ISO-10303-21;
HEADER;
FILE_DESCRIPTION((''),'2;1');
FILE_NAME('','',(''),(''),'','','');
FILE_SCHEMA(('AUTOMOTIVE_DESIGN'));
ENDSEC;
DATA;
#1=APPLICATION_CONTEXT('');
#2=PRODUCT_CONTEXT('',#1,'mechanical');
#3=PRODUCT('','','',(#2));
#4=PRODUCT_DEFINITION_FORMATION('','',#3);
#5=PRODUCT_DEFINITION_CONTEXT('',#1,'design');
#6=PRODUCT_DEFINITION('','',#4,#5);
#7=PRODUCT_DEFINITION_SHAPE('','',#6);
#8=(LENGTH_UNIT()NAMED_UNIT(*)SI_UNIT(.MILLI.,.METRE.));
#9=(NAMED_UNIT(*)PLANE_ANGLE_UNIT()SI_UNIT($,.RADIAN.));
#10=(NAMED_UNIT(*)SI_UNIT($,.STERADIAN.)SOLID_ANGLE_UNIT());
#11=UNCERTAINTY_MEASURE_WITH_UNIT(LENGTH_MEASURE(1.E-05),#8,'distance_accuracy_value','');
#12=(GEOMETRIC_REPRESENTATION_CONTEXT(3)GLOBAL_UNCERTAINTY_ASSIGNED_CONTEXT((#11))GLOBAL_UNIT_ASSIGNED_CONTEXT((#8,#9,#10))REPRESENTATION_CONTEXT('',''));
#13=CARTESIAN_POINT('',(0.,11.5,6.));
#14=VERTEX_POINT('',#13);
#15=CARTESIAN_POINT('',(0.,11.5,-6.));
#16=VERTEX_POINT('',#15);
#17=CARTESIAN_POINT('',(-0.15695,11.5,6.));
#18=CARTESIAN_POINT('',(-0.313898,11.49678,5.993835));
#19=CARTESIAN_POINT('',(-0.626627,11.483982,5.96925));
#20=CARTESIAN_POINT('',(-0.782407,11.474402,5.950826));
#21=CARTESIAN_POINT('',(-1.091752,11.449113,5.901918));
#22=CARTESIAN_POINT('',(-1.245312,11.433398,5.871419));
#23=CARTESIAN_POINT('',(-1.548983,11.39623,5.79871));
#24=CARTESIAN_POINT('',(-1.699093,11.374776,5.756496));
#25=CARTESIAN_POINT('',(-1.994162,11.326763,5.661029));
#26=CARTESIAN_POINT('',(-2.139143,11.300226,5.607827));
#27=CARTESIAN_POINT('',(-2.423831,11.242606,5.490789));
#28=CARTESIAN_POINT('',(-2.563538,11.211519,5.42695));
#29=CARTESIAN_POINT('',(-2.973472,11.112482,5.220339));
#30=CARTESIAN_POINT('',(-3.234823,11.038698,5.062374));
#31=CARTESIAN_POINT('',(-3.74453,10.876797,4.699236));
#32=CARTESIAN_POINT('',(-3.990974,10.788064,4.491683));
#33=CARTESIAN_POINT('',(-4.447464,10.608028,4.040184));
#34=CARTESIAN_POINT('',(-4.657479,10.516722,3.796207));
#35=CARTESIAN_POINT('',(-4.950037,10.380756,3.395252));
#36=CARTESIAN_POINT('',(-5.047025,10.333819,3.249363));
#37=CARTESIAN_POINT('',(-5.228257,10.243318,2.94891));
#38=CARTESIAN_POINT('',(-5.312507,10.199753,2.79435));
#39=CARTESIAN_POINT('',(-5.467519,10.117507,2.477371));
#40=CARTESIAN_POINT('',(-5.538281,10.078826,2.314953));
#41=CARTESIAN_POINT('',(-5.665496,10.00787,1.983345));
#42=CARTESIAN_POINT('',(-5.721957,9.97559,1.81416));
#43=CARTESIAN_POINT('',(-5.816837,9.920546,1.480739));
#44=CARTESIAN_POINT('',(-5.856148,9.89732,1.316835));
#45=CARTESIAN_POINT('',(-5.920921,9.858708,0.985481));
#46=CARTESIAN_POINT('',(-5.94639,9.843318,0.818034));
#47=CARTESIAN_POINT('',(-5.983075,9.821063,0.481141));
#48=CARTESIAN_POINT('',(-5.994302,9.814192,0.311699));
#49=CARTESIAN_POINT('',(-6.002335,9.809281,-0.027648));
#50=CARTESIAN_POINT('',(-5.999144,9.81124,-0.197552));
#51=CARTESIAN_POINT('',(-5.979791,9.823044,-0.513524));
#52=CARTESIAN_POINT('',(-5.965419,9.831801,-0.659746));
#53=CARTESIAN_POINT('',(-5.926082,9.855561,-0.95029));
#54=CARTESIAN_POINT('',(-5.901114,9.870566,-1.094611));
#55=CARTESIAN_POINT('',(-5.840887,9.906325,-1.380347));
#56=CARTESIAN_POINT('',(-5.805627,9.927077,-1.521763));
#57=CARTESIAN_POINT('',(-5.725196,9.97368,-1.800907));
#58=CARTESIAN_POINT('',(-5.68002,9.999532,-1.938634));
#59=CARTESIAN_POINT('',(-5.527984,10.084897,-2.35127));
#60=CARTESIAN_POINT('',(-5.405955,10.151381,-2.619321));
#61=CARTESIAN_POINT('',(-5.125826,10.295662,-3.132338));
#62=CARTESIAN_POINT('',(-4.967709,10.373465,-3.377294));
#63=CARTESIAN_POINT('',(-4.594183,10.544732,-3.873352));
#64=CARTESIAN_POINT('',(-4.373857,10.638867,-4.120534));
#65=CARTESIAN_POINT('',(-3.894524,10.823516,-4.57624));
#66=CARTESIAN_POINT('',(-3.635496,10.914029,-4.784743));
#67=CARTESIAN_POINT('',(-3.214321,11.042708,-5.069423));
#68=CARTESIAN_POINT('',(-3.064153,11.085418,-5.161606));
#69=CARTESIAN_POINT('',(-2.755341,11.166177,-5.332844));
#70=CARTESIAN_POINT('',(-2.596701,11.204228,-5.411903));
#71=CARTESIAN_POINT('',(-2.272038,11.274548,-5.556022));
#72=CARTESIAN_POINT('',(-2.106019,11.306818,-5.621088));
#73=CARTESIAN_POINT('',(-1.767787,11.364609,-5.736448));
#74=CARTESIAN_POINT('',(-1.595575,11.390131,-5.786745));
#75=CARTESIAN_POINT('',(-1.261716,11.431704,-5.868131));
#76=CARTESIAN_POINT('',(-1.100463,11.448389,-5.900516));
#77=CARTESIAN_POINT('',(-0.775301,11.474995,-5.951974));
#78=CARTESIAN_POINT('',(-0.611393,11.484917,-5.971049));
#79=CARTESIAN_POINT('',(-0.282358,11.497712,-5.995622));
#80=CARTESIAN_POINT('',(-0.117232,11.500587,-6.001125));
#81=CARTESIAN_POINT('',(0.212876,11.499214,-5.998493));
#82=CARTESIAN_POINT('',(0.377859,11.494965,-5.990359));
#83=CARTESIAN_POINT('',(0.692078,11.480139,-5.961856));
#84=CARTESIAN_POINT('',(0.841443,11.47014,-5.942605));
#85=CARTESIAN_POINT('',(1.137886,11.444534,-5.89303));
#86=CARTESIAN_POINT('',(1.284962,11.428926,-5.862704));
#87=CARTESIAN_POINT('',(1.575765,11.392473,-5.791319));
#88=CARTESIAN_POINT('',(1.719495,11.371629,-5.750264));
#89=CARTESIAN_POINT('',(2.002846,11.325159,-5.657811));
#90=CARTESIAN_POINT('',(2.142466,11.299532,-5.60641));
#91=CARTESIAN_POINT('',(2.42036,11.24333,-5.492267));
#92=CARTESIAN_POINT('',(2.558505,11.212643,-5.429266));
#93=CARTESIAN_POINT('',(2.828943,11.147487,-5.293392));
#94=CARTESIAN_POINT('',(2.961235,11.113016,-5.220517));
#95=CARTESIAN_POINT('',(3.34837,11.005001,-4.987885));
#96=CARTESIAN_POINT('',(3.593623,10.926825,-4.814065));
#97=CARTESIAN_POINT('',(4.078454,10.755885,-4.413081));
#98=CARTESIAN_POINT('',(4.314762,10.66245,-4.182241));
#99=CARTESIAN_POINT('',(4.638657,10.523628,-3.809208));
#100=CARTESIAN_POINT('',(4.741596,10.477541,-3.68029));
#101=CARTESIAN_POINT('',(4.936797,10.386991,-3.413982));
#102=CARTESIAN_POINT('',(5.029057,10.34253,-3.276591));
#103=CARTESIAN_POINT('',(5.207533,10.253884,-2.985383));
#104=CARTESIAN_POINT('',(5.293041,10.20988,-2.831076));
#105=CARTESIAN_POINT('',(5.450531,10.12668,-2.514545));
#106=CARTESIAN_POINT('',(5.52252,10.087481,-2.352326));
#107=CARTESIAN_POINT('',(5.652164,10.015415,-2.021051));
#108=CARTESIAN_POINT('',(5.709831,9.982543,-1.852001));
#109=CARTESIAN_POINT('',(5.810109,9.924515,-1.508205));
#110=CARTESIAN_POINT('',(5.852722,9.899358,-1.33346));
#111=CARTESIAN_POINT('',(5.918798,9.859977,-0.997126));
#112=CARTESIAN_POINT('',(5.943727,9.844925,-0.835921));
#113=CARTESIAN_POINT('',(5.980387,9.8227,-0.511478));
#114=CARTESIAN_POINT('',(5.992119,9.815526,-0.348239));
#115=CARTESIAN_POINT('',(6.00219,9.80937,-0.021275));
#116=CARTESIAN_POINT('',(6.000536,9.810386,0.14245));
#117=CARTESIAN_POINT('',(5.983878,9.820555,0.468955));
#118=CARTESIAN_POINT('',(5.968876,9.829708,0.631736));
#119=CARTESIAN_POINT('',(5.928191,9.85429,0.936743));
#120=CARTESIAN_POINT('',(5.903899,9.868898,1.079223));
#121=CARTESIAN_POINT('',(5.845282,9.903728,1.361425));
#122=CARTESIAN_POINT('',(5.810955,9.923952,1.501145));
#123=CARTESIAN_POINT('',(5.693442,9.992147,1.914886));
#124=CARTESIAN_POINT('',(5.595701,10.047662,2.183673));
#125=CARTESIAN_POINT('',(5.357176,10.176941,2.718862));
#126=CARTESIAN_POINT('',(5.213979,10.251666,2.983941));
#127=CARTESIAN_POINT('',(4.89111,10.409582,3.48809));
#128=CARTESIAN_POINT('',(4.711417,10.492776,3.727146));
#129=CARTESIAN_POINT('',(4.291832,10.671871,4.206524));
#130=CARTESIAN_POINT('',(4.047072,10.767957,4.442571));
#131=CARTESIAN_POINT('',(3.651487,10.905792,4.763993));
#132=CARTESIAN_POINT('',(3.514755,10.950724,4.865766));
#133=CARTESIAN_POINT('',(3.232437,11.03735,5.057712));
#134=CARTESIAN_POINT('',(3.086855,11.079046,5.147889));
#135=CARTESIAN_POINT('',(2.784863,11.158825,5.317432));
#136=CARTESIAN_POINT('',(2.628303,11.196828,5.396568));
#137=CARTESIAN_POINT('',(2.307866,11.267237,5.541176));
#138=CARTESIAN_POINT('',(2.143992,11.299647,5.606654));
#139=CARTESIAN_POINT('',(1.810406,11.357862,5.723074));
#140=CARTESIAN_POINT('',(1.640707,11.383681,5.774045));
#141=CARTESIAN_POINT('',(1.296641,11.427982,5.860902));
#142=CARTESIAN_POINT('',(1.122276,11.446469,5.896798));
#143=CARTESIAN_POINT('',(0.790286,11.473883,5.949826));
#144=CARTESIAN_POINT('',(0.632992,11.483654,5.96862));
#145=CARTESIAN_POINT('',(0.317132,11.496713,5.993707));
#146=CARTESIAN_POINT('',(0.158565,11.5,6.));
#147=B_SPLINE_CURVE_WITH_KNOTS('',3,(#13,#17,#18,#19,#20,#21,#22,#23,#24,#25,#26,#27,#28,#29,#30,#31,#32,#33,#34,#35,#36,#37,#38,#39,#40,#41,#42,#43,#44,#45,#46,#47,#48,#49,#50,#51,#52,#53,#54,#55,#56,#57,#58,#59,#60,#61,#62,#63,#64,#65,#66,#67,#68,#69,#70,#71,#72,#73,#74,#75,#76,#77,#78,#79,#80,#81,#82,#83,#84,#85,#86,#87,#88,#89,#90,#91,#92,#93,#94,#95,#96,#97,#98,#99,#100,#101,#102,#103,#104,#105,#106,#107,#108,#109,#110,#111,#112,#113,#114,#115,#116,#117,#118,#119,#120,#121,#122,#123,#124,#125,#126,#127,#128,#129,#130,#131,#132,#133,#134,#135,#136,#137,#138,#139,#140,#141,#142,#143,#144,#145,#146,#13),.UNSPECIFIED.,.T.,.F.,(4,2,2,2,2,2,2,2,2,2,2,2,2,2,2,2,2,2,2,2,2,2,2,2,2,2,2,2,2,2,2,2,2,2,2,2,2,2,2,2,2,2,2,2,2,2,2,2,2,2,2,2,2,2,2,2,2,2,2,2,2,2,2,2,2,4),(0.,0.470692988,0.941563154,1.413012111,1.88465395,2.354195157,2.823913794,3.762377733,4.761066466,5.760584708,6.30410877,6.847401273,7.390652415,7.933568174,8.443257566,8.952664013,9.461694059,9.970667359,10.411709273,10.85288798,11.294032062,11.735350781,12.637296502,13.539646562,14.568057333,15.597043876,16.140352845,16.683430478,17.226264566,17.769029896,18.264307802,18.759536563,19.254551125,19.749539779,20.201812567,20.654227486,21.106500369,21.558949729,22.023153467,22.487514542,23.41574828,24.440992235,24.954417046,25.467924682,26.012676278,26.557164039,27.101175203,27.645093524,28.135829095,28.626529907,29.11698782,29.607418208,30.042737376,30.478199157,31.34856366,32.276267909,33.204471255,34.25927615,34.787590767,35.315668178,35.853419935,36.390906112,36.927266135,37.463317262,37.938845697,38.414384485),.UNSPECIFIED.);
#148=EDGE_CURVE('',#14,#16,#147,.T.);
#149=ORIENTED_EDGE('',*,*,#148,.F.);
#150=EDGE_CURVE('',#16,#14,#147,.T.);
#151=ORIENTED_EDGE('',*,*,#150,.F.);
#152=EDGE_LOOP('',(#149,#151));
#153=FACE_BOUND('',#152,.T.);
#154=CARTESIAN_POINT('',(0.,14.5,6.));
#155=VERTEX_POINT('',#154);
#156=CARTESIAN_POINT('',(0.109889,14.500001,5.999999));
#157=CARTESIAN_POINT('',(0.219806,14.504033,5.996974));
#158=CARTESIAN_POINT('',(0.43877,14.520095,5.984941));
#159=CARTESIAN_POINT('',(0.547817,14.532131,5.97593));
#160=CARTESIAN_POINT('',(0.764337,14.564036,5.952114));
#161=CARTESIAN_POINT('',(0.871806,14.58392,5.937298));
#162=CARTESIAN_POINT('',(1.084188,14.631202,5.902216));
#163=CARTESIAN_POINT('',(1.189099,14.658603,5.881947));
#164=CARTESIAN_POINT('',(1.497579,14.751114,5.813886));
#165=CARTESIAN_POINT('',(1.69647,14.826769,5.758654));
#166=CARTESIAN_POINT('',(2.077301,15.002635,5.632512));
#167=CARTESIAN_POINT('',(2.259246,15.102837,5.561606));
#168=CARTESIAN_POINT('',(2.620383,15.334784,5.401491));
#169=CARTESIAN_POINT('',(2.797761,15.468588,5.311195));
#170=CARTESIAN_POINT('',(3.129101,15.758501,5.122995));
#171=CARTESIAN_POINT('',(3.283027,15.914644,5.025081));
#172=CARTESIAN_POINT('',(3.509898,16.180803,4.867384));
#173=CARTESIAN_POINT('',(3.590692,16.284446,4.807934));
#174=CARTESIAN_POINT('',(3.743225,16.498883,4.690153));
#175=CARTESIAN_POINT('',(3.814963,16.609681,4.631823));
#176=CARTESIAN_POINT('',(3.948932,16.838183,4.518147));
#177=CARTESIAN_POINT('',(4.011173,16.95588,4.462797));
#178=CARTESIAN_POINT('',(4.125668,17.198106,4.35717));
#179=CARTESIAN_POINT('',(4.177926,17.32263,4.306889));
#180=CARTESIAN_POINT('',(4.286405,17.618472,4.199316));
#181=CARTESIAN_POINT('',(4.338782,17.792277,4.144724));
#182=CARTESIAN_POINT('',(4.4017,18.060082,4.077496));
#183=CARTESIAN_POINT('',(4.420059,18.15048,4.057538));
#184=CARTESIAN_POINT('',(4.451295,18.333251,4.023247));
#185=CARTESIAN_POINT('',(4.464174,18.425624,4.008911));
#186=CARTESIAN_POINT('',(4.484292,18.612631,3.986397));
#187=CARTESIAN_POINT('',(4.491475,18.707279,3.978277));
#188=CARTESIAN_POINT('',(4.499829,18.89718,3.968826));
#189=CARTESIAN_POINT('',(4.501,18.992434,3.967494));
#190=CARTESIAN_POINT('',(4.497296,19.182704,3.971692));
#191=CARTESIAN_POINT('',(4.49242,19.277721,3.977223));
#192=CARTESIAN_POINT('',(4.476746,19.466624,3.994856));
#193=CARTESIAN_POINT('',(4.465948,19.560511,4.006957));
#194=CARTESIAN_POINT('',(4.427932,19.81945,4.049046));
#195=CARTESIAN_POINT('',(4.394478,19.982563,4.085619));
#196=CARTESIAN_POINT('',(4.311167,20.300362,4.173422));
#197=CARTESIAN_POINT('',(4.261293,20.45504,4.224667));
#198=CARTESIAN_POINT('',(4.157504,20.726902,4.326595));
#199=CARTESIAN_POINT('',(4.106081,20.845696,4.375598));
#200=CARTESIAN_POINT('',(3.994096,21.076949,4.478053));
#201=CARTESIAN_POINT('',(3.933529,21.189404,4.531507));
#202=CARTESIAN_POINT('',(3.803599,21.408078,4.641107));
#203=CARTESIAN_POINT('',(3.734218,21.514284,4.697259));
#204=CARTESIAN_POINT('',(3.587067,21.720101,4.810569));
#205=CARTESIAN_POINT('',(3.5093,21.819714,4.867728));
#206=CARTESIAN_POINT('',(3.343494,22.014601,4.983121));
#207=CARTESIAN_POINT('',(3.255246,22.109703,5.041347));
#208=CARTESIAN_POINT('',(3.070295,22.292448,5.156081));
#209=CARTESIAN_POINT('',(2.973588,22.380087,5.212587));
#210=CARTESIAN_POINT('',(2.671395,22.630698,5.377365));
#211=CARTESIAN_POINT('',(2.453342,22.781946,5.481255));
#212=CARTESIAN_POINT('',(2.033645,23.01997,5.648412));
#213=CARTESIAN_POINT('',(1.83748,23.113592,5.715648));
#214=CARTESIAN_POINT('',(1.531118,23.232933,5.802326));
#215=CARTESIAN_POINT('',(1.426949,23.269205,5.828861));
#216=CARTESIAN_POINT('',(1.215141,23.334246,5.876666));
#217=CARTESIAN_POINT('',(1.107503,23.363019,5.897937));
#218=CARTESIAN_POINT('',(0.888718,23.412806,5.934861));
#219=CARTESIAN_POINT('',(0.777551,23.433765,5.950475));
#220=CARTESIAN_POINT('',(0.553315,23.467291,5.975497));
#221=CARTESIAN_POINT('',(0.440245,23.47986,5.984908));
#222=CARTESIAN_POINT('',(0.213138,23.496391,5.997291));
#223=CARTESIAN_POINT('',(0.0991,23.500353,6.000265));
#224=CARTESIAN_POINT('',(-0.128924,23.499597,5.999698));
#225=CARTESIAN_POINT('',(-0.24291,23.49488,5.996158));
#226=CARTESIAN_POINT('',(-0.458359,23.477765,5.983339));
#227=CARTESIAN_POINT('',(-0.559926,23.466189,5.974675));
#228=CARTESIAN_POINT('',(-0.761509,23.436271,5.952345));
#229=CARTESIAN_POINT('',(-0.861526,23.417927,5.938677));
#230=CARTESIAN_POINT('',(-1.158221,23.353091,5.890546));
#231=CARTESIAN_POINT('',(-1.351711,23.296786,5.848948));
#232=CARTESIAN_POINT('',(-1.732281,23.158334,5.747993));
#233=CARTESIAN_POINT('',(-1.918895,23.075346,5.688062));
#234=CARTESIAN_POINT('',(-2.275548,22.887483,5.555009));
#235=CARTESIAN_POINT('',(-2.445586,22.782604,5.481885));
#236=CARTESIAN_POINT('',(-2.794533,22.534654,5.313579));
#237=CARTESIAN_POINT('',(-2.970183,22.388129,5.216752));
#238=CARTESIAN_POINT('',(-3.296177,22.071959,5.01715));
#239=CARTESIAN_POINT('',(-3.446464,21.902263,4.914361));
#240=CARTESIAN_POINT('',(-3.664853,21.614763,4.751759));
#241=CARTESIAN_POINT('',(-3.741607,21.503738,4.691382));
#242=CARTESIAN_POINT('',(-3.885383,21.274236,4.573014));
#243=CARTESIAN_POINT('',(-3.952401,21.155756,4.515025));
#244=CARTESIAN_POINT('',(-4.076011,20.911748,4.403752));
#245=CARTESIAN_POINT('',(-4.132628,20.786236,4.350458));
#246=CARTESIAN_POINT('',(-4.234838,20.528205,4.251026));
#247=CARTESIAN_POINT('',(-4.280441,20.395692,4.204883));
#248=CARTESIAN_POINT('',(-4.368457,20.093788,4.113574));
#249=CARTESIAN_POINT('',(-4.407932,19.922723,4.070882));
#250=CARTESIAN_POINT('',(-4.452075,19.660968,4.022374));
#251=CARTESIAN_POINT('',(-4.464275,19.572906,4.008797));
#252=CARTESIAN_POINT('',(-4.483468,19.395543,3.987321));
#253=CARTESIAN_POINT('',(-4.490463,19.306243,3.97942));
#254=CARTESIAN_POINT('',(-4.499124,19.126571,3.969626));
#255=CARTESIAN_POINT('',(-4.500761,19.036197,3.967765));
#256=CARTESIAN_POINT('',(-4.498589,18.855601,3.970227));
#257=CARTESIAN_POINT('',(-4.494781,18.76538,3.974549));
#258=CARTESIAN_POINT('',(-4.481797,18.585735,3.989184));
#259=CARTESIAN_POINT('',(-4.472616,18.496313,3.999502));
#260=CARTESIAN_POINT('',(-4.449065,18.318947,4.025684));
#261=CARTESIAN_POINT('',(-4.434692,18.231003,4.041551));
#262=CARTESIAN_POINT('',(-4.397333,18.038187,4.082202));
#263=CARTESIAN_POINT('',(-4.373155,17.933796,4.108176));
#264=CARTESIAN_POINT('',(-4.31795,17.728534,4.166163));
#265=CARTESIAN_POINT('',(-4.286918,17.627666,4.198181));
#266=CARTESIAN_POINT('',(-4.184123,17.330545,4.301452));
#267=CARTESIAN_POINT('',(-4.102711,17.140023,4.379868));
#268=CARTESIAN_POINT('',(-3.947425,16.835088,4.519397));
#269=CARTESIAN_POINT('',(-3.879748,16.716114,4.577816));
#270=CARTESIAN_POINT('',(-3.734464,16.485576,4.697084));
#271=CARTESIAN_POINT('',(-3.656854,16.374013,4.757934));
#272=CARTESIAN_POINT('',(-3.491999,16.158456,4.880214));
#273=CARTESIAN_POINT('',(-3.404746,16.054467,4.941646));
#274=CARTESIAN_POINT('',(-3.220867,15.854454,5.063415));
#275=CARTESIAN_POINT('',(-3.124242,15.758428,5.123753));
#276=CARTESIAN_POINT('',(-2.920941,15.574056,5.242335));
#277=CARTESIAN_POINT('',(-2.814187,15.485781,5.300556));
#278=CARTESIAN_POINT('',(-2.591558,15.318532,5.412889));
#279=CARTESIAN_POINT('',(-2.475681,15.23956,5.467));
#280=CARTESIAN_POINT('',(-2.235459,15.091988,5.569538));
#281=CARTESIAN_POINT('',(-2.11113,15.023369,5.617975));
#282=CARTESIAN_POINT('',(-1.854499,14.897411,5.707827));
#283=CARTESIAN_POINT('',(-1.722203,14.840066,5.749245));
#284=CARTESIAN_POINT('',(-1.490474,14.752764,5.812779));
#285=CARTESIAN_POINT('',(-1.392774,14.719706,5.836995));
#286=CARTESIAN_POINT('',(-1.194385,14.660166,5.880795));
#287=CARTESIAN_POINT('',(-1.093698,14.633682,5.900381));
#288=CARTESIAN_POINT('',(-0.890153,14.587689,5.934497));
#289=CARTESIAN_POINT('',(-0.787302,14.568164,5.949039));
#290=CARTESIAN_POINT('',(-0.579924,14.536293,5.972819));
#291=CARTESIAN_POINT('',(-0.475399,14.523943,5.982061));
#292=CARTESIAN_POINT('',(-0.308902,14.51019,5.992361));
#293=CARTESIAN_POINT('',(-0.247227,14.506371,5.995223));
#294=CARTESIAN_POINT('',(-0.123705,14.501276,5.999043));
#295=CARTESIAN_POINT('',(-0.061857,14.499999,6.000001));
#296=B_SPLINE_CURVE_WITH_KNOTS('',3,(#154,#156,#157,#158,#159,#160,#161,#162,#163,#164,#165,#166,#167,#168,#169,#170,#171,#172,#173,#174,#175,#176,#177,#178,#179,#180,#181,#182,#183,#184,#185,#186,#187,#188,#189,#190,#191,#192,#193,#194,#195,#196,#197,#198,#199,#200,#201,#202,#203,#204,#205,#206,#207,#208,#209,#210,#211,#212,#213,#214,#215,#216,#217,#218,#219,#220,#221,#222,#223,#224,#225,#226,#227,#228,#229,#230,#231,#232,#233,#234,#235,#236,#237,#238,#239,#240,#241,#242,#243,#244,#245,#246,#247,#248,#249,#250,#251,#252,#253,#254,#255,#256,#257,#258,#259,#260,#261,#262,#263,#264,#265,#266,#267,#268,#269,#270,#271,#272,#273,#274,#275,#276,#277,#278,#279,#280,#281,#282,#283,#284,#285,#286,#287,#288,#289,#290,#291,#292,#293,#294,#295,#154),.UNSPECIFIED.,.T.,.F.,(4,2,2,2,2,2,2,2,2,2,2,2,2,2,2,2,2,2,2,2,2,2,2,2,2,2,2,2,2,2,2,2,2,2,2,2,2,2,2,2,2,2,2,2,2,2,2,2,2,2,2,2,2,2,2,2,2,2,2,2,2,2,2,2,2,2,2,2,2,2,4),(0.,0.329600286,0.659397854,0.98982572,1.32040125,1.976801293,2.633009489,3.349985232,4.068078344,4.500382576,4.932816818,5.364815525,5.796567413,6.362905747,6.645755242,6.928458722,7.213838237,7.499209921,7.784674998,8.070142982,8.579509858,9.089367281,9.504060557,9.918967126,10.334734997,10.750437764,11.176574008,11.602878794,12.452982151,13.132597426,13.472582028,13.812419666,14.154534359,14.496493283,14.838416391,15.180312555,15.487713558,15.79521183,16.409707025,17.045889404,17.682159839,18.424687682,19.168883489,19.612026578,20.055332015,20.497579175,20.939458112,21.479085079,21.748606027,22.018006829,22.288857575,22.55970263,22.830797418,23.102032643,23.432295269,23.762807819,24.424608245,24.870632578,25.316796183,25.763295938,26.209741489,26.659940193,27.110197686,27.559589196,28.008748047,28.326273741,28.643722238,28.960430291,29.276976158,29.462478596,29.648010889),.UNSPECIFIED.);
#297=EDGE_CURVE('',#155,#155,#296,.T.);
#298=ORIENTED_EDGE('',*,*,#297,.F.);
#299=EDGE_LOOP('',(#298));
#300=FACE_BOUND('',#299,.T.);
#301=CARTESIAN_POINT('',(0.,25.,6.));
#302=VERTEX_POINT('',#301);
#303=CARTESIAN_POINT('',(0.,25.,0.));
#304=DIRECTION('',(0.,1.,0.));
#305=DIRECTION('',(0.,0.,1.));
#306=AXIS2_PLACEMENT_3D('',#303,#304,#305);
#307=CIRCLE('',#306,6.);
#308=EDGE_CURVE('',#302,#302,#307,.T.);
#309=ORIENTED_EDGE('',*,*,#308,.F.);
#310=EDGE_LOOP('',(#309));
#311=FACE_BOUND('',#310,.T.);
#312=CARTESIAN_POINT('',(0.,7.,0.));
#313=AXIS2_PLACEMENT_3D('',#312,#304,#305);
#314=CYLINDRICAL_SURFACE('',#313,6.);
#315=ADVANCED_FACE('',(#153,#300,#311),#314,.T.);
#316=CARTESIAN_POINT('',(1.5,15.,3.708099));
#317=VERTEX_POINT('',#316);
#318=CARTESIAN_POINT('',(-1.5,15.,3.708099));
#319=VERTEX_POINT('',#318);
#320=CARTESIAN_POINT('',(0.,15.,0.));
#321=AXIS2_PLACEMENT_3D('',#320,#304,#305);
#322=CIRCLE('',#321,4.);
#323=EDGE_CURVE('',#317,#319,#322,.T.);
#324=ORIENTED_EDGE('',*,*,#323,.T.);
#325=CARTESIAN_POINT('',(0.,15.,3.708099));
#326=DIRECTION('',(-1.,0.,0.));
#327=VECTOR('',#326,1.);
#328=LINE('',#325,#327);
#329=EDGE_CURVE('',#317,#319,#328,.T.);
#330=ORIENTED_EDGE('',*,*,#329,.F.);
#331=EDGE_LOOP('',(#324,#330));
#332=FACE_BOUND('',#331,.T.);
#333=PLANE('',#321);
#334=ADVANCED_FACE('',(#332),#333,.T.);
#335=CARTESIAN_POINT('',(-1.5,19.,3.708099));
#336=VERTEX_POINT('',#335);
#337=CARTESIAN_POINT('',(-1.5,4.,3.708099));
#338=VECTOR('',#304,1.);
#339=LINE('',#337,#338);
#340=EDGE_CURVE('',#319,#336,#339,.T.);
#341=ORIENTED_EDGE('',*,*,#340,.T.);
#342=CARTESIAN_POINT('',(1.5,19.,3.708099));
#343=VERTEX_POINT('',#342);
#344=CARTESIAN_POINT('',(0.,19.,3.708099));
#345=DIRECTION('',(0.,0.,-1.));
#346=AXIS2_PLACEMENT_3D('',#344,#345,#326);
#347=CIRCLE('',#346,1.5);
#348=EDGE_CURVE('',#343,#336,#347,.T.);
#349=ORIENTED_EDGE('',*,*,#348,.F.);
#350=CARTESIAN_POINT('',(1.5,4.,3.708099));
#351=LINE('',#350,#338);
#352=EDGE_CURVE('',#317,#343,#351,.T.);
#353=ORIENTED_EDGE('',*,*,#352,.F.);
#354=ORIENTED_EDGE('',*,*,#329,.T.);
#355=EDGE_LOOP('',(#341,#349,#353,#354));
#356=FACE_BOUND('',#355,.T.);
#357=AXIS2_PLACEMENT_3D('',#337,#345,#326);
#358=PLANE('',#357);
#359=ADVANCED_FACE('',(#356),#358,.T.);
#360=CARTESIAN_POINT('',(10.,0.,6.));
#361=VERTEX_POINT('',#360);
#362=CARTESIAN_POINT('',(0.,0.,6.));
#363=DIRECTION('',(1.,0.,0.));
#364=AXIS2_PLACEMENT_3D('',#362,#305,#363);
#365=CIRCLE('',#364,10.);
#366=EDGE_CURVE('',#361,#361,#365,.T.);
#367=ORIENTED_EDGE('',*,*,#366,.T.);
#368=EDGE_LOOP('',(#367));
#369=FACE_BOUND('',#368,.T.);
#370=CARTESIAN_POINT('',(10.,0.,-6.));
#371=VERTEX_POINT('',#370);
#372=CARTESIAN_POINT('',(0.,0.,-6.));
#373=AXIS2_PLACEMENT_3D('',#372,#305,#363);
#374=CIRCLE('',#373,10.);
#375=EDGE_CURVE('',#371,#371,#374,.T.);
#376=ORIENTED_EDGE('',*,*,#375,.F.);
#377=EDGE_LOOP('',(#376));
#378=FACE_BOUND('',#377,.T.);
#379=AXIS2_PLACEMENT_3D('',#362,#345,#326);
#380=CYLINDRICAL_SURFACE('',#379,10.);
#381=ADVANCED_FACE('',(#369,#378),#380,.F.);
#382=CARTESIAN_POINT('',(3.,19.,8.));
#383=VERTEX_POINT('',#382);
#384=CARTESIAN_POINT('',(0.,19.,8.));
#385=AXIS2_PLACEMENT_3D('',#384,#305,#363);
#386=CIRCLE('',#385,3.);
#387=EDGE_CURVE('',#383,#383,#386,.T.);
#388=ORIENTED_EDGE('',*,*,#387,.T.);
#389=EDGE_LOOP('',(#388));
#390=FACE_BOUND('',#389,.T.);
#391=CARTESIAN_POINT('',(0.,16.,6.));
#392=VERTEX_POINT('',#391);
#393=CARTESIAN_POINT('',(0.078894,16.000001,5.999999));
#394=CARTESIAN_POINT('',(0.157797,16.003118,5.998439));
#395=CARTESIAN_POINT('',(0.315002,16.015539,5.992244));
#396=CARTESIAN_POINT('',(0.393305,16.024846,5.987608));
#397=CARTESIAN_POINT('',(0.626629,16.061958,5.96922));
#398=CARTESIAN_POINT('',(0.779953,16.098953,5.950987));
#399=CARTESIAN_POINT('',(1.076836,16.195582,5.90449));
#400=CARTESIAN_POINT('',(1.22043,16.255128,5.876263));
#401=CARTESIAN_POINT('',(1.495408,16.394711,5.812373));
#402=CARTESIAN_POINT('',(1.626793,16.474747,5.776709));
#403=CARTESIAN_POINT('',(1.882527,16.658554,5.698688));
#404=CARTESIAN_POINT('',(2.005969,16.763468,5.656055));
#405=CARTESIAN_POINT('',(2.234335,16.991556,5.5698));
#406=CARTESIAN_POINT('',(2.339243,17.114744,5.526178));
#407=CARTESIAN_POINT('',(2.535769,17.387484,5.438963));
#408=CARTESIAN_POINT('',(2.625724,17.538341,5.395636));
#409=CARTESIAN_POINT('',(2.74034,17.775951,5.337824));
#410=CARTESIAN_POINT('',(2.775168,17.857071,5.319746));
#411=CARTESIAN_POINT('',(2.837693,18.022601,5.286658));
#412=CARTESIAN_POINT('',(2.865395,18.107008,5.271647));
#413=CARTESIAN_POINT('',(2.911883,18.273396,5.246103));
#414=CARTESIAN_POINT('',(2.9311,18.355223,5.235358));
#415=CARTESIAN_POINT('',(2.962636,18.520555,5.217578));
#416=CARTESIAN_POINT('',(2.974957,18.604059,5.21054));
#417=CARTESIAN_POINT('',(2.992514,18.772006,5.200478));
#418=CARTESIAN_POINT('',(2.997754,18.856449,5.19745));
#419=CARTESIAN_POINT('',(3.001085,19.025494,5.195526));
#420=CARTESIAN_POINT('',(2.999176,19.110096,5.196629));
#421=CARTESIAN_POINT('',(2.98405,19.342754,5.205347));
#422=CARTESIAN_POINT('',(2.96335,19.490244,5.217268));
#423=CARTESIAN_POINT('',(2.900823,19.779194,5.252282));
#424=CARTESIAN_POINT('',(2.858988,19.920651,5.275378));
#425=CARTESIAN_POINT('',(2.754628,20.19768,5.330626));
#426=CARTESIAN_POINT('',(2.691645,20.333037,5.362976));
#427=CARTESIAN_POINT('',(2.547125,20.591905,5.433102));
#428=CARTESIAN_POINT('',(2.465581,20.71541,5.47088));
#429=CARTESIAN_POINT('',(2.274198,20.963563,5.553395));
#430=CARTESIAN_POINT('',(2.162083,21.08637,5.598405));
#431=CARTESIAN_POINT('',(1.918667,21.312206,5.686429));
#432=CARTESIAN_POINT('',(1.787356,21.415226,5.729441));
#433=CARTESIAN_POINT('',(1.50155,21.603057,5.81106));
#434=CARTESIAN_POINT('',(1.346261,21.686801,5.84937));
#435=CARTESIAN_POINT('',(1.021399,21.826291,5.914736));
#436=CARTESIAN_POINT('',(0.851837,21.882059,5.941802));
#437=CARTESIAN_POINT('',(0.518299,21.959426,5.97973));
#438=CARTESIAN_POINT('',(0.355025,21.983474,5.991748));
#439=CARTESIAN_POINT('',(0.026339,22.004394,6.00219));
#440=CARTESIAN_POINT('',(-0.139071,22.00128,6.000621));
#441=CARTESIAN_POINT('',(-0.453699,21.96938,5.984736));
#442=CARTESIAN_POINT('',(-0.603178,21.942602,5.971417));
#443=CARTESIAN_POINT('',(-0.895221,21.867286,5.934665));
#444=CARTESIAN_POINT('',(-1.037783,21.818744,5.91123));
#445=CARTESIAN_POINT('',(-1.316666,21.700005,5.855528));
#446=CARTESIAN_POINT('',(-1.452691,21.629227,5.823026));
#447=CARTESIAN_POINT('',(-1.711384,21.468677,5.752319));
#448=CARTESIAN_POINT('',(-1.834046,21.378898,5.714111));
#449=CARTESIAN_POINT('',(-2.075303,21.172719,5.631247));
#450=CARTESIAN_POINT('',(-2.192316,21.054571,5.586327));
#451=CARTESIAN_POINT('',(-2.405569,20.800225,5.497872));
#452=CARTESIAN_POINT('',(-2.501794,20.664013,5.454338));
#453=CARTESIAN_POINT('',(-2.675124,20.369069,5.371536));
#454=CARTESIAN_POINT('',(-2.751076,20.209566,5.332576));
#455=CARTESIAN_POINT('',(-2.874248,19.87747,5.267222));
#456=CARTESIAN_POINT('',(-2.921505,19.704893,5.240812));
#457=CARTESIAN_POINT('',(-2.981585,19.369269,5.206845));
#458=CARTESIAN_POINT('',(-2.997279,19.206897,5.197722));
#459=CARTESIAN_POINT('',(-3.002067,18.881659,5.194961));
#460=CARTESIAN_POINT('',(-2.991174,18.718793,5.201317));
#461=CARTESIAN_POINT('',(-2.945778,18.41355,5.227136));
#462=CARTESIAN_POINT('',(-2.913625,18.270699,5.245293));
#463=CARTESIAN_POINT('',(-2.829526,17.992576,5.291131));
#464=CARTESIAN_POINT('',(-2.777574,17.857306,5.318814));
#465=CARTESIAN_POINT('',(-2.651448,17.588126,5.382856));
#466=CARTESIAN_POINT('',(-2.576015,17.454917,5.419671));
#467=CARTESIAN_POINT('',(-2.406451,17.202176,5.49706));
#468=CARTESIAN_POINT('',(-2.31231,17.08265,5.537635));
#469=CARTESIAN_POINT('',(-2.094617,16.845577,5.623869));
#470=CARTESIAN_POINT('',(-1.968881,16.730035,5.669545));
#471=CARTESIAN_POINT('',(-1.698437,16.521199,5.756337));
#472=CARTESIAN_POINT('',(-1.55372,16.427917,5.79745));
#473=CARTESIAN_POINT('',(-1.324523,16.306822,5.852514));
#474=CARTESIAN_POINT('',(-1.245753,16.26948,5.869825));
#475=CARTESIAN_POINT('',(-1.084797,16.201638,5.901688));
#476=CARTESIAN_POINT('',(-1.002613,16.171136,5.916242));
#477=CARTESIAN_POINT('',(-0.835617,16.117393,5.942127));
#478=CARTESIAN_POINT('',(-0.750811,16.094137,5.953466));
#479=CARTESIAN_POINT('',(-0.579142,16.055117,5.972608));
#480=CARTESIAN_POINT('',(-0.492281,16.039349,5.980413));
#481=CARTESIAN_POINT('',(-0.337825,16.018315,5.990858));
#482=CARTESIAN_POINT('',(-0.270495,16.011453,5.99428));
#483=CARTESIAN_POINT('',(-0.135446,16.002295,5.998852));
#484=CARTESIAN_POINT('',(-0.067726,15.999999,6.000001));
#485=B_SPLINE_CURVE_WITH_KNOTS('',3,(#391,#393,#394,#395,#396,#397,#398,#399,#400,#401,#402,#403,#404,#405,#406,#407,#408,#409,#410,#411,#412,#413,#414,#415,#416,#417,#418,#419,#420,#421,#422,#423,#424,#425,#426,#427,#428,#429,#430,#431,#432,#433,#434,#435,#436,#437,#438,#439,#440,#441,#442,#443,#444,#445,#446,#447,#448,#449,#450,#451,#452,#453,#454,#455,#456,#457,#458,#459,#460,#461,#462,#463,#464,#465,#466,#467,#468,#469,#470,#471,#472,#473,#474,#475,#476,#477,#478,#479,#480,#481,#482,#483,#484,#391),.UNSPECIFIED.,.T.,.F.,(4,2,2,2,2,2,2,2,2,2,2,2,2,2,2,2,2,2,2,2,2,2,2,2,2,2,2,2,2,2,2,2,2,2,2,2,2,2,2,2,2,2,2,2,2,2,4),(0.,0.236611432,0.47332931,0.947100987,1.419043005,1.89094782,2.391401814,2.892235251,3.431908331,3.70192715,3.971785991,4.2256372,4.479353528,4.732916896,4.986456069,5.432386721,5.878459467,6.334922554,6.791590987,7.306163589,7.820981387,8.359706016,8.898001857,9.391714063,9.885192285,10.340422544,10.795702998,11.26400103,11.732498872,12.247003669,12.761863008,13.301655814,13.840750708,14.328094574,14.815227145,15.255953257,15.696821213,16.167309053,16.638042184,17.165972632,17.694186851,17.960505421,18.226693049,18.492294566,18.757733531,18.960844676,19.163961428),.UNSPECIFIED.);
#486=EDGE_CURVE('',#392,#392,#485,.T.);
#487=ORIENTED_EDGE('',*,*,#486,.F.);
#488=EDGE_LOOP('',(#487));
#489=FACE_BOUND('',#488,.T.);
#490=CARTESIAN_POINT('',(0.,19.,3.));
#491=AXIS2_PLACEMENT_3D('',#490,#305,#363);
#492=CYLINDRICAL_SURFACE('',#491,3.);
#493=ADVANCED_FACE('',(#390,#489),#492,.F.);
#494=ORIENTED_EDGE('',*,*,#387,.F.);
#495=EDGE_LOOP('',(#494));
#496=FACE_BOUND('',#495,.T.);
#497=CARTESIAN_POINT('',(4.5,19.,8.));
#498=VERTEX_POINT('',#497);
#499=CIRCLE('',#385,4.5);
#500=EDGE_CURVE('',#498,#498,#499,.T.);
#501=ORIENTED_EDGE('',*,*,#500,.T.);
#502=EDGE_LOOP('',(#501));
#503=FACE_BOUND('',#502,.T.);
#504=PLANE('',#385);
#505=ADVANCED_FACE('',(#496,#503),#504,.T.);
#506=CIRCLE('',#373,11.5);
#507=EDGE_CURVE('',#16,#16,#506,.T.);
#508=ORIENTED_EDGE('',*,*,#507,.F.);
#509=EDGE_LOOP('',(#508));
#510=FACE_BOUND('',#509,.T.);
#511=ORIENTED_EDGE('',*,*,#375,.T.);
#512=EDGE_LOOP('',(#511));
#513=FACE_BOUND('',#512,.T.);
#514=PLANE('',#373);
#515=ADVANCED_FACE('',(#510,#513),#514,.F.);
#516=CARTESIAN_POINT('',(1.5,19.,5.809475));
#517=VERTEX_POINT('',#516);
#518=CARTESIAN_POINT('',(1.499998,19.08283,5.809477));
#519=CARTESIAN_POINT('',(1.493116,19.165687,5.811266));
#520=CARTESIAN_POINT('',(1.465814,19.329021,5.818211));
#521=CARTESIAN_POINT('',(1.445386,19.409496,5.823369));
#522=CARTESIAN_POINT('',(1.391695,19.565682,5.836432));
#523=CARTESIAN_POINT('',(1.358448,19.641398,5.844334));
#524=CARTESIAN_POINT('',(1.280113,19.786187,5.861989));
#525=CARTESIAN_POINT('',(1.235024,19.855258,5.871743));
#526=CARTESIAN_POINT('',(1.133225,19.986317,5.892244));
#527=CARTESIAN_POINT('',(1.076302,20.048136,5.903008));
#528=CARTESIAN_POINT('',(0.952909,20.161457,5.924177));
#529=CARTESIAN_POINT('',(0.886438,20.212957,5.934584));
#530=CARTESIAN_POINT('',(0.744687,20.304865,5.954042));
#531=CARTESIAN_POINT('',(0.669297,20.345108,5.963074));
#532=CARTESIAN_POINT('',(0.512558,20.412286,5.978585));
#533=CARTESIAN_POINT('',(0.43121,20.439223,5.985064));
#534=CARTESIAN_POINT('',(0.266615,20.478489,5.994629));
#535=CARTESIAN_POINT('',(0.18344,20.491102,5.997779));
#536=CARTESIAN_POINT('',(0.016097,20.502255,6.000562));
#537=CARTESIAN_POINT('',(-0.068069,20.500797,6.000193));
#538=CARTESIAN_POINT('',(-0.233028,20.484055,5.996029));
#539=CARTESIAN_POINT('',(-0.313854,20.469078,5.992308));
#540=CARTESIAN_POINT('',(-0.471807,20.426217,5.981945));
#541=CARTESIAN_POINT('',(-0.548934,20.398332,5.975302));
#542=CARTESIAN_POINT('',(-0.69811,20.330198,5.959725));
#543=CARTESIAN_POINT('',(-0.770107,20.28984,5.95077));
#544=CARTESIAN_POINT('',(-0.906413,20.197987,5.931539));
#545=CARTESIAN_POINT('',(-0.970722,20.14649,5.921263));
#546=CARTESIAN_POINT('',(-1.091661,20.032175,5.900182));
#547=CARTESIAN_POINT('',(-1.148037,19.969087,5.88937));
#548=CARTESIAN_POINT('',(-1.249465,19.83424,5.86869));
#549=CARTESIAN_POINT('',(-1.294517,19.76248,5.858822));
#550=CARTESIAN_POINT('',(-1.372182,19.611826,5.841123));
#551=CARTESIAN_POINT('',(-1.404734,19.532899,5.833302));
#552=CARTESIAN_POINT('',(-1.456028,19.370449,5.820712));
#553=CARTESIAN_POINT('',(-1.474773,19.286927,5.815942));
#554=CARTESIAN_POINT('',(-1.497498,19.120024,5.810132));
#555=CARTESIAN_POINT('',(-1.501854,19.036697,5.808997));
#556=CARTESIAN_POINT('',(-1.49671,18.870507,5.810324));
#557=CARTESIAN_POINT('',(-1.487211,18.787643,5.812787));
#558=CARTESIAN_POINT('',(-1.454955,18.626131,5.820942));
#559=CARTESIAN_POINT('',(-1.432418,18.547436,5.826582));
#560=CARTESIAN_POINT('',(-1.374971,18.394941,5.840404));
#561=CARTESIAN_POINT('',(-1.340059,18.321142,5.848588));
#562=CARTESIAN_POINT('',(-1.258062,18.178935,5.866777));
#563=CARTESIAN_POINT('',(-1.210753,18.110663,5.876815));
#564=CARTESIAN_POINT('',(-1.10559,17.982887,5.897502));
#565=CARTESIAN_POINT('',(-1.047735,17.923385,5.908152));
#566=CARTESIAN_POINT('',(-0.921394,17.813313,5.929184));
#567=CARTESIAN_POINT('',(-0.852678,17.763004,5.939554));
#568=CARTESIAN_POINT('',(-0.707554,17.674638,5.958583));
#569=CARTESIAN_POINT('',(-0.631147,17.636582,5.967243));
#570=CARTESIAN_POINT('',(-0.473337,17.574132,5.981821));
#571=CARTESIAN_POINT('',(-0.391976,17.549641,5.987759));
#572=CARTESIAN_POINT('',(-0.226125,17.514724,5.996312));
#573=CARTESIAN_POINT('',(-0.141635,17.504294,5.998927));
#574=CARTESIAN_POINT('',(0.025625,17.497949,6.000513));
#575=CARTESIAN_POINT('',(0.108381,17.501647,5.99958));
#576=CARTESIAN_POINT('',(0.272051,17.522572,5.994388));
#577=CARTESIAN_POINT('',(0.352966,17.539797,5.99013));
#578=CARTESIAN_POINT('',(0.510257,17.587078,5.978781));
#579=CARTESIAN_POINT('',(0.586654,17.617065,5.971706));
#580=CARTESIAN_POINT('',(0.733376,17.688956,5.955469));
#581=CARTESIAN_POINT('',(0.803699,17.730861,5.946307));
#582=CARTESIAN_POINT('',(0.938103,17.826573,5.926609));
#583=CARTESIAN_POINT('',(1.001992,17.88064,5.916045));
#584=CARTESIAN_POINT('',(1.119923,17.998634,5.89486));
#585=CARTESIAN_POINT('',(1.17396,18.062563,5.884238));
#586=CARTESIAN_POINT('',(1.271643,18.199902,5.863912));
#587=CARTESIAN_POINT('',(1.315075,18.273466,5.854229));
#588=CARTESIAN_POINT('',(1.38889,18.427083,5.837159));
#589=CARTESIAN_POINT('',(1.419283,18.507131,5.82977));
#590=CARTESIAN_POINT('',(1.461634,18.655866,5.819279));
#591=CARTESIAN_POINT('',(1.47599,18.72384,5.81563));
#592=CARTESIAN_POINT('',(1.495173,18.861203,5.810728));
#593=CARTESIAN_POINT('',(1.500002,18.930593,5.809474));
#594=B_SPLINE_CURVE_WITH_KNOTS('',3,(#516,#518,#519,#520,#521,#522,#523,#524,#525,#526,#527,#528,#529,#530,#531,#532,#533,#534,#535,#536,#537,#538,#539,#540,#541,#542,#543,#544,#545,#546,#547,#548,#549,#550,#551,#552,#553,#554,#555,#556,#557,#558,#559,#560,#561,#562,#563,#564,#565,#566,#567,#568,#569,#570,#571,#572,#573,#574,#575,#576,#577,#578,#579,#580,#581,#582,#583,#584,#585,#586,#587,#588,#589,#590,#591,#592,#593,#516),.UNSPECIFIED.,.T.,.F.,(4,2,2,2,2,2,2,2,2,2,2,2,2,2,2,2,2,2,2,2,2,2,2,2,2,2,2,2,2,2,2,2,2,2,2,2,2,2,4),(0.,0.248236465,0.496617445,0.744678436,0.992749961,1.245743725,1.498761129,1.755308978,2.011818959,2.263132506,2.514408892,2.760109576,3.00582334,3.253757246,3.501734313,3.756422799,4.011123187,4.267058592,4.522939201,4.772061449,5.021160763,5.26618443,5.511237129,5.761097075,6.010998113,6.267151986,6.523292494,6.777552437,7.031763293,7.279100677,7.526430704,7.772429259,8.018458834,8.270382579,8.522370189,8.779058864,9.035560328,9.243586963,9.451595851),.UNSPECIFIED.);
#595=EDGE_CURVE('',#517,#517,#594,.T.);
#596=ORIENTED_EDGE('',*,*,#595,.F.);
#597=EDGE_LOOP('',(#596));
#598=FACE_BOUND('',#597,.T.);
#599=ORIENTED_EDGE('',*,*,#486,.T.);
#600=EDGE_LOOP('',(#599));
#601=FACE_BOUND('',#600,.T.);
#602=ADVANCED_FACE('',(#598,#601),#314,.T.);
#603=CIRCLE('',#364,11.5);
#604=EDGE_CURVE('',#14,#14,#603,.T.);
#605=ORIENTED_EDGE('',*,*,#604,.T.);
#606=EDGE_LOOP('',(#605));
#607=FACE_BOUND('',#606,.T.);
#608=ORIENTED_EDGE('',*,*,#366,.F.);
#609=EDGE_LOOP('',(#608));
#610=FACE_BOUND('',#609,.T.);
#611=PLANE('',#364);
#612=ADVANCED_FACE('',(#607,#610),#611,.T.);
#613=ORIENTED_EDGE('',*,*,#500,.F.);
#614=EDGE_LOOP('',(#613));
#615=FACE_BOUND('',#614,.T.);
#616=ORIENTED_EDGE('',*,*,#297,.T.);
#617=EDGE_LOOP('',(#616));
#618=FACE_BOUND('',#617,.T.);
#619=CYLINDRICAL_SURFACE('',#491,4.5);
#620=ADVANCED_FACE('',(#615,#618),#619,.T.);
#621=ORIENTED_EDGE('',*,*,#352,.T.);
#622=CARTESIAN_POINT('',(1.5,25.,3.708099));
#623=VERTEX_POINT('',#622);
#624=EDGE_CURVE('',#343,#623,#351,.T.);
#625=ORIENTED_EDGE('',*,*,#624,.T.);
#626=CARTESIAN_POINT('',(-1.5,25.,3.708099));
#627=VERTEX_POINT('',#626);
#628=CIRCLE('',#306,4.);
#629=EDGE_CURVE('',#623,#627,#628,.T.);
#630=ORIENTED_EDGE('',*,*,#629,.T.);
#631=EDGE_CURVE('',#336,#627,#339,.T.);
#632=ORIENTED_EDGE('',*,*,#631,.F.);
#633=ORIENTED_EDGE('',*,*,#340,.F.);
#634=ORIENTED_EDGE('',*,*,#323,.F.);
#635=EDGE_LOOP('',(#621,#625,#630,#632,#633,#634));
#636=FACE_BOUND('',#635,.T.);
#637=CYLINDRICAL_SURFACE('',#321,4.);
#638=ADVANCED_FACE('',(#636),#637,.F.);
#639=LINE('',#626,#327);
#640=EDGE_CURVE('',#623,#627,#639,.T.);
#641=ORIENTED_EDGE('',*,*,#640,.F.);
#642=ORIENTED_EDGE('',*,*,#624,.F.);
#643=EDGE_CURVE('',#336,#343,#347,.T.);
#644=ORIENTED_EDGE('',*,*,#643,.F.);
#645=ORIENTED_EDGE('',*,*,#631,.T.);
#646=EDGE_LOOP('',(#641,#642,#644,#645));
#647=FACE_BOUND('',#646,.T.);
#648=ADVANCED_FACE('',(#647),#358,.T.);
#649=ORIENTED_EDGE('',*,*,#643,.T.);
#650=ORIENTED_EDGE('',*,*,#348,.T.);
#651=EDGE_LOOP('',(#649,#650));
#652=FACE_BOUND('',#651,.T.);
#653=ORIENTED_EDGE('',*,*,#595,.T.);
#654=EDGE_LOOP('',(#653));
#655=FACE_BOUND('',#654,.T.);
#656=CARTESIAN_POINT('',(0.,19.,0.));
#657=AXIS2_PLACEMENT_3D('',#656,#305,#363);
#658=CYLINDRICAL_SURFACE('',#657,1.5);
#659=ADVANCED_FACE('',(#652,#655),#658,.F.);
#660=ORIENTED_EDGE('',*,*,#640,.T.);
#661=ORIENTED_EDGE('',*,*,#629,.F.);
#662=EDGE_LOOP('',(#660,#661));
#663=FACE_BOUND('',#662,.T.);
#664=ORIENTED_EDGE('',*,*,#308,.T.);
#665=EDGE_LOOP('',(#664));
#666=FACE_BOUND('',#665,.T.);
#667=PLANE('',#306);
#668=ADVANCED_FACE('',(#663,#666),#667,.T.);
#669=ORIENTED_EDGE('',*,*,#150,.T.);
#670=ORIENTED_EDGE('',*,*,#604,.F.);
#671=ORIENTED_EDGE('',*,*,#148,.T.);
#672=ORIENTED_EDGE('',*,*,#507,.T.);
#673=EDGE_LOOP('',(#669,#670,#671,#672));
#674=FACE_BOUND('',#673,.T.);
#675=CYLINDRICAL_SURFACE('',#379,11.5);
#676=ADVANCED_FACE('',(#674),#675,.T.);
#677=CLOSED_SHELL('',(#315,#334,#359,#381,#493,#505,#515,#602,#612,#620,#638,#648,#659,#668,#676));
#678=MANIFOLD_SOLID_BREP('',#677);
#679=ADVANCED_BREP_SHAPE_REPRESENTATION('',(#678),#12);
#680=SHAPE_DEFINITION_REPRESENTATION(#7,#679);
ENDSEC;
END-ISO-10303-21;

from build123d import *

# Parameters (mm, degrees)
SKETCH1_R               = 11.5
SKETCH1_R_2             = 10
BOSS_EXTRUDE1_DEPTH     = 6
SKETCH2_R               = 6
BOSS_EXTRUDE3_DEPTH     = 18
SKETCH4_R               = 10
CUT_EXTRUDE2_DEPTH      = 7.000000123
CUT_EXTRUDE2_DEPTH_BACK = 7.000000101
SKETCH5_R               = 4
CUT_EXTRUDE3_DEPTH      = 10
SKETCH6_R               = 4.5
SKETCH6_R_2             = 3
BOSS_EXTRUDE4_DEPTH     = 5
SKETCH7_R               = 4
CUT_EXTRUDE4_DEPTH      = 10
BOSS_EXTRUDE5_DEPTH     = 21
SKETCH9_R               = 10
CUT_EXTRUDE5_DEPTH      = 1.0000001
CUT_EXTRUDE5_DEPTH_BACK = 15.0000001
SKETCH10_R              = 1.5
CUT_EXTRUDE6_DEPTH      = 8


with BuildPart() as part:
    # Sketch1 → Boss-Extrude1 (new body, symmetric)
    with BuildSketch(Plane.XY):
        Circle(SKETCH1_R)
        Circle(SKETCH1_R_2, mode=Mode.SUBTRACT)
    extrude(amount=BOSS_EXTRUDE1_DEPTH, both=True)

    # Sketch2 → Boss-Extrude3 (add)
    with BuildSketch(Plane(origin=(0, 25, 0), x_dir=(1, 0, 0), z_dir=(0, 1, 0))):
        Circle(SKETCH2_R)
    extrude(amount=-BOSS_EXTRUDE3_DEPTH)

    # Sketch4 → Cut-Extrude2 (cut, two sides)
    with BuildSketch(Plane.XY) as cut_extrude2_sk:
        Circle(SKETCH4_R)
    extrude(amount=CUT_EXTRUDE2_DEPTH, mode=Mode.SUBTRACT)
    extrude(cut_extrude2_sk.sketch, amount=-CUT_EXTRUDE2_DEPTH_BACK, mode=Mode.SUBTRACT)

    # Sketch5 → Cut-Extrude3 (cut)
    with BuildSketch(Plane(origin=(0, 25, 0), x_dir=(1, 0, 0), z_dir=(0, 1, 0))):
        Circle(SKETCH5_R)
    extrude(amount=-CUT_EXTRUDE3_DEPTH, mode=Mode.SUBTRACT)

    # Sketch6 → Boss-Extrude4 (add)
    with BuildSketch(Plane.XY.offset(8)):
        with Locations((0, 19)):
            Circle(SKETCH6_R)
        with Locations((0, 19)):
            Circle(SKETCH6_R_2, mode=Mode.SUBTRACT)
    extrude(amount=-BOSS_EXTRUDE4_DEPTH)

    # Sketch7 → Cut-Extrude4 (cut)
    with BuildSketch(Plane(origin=(0, 25, 0), x_dir=(1, 0, 0), z_dir=(0, 1, 0))):
        Circle(SKETCH7_R)
    extrude(amount=-CUT_EXTRUDE4_DEPTH, mode=Mode.SUBTRACT)

    # Sketch8 → Boss-Extrude5 (add)
    with BuildSketch(Plane(origin=(0, 25, 0), x_dir=(1, 0, 0), z_dir=(0, 1, 0))):
        with BuildLine():
            Line((-1.5, -3.708099244), (1.5, -3.708099244))
            ThreePointArc((1.5, -3.708099244), (0, -4), (-1.5, -3.708099244))
        make_face()
    extrude(amount=-BOSS_EXTRUDE5_DEPTH)

    # Sketch9 → Cut-Extrude5 (cut, two sides)
    with BuildSketch(Plane.XY.offset(8)) as cut_extrude5_sk:
        Circle(SKETCH9_R)
    extrude(amount=CUT_EXTRUDE5_DEPTH, mode=Mode.SUBTRACT)
    extrude(cut_extrude5_sk.sketch, amount=-CUT_EXTRUDE5_DEPTH_BACK, mode=Mode.SUBTRACT)

    # Sketch10 → Cut-Extrude6 (cut)
    with BuildSketch(Plane.XY.offset(8)):
        with Locations((0, 19)):
            Circle(SKETCH10_R)
    extrude(amount=-CUT_EXTRUDE6_DEPTH, mode=Mode.SUBTRACT)


solid = part.part
